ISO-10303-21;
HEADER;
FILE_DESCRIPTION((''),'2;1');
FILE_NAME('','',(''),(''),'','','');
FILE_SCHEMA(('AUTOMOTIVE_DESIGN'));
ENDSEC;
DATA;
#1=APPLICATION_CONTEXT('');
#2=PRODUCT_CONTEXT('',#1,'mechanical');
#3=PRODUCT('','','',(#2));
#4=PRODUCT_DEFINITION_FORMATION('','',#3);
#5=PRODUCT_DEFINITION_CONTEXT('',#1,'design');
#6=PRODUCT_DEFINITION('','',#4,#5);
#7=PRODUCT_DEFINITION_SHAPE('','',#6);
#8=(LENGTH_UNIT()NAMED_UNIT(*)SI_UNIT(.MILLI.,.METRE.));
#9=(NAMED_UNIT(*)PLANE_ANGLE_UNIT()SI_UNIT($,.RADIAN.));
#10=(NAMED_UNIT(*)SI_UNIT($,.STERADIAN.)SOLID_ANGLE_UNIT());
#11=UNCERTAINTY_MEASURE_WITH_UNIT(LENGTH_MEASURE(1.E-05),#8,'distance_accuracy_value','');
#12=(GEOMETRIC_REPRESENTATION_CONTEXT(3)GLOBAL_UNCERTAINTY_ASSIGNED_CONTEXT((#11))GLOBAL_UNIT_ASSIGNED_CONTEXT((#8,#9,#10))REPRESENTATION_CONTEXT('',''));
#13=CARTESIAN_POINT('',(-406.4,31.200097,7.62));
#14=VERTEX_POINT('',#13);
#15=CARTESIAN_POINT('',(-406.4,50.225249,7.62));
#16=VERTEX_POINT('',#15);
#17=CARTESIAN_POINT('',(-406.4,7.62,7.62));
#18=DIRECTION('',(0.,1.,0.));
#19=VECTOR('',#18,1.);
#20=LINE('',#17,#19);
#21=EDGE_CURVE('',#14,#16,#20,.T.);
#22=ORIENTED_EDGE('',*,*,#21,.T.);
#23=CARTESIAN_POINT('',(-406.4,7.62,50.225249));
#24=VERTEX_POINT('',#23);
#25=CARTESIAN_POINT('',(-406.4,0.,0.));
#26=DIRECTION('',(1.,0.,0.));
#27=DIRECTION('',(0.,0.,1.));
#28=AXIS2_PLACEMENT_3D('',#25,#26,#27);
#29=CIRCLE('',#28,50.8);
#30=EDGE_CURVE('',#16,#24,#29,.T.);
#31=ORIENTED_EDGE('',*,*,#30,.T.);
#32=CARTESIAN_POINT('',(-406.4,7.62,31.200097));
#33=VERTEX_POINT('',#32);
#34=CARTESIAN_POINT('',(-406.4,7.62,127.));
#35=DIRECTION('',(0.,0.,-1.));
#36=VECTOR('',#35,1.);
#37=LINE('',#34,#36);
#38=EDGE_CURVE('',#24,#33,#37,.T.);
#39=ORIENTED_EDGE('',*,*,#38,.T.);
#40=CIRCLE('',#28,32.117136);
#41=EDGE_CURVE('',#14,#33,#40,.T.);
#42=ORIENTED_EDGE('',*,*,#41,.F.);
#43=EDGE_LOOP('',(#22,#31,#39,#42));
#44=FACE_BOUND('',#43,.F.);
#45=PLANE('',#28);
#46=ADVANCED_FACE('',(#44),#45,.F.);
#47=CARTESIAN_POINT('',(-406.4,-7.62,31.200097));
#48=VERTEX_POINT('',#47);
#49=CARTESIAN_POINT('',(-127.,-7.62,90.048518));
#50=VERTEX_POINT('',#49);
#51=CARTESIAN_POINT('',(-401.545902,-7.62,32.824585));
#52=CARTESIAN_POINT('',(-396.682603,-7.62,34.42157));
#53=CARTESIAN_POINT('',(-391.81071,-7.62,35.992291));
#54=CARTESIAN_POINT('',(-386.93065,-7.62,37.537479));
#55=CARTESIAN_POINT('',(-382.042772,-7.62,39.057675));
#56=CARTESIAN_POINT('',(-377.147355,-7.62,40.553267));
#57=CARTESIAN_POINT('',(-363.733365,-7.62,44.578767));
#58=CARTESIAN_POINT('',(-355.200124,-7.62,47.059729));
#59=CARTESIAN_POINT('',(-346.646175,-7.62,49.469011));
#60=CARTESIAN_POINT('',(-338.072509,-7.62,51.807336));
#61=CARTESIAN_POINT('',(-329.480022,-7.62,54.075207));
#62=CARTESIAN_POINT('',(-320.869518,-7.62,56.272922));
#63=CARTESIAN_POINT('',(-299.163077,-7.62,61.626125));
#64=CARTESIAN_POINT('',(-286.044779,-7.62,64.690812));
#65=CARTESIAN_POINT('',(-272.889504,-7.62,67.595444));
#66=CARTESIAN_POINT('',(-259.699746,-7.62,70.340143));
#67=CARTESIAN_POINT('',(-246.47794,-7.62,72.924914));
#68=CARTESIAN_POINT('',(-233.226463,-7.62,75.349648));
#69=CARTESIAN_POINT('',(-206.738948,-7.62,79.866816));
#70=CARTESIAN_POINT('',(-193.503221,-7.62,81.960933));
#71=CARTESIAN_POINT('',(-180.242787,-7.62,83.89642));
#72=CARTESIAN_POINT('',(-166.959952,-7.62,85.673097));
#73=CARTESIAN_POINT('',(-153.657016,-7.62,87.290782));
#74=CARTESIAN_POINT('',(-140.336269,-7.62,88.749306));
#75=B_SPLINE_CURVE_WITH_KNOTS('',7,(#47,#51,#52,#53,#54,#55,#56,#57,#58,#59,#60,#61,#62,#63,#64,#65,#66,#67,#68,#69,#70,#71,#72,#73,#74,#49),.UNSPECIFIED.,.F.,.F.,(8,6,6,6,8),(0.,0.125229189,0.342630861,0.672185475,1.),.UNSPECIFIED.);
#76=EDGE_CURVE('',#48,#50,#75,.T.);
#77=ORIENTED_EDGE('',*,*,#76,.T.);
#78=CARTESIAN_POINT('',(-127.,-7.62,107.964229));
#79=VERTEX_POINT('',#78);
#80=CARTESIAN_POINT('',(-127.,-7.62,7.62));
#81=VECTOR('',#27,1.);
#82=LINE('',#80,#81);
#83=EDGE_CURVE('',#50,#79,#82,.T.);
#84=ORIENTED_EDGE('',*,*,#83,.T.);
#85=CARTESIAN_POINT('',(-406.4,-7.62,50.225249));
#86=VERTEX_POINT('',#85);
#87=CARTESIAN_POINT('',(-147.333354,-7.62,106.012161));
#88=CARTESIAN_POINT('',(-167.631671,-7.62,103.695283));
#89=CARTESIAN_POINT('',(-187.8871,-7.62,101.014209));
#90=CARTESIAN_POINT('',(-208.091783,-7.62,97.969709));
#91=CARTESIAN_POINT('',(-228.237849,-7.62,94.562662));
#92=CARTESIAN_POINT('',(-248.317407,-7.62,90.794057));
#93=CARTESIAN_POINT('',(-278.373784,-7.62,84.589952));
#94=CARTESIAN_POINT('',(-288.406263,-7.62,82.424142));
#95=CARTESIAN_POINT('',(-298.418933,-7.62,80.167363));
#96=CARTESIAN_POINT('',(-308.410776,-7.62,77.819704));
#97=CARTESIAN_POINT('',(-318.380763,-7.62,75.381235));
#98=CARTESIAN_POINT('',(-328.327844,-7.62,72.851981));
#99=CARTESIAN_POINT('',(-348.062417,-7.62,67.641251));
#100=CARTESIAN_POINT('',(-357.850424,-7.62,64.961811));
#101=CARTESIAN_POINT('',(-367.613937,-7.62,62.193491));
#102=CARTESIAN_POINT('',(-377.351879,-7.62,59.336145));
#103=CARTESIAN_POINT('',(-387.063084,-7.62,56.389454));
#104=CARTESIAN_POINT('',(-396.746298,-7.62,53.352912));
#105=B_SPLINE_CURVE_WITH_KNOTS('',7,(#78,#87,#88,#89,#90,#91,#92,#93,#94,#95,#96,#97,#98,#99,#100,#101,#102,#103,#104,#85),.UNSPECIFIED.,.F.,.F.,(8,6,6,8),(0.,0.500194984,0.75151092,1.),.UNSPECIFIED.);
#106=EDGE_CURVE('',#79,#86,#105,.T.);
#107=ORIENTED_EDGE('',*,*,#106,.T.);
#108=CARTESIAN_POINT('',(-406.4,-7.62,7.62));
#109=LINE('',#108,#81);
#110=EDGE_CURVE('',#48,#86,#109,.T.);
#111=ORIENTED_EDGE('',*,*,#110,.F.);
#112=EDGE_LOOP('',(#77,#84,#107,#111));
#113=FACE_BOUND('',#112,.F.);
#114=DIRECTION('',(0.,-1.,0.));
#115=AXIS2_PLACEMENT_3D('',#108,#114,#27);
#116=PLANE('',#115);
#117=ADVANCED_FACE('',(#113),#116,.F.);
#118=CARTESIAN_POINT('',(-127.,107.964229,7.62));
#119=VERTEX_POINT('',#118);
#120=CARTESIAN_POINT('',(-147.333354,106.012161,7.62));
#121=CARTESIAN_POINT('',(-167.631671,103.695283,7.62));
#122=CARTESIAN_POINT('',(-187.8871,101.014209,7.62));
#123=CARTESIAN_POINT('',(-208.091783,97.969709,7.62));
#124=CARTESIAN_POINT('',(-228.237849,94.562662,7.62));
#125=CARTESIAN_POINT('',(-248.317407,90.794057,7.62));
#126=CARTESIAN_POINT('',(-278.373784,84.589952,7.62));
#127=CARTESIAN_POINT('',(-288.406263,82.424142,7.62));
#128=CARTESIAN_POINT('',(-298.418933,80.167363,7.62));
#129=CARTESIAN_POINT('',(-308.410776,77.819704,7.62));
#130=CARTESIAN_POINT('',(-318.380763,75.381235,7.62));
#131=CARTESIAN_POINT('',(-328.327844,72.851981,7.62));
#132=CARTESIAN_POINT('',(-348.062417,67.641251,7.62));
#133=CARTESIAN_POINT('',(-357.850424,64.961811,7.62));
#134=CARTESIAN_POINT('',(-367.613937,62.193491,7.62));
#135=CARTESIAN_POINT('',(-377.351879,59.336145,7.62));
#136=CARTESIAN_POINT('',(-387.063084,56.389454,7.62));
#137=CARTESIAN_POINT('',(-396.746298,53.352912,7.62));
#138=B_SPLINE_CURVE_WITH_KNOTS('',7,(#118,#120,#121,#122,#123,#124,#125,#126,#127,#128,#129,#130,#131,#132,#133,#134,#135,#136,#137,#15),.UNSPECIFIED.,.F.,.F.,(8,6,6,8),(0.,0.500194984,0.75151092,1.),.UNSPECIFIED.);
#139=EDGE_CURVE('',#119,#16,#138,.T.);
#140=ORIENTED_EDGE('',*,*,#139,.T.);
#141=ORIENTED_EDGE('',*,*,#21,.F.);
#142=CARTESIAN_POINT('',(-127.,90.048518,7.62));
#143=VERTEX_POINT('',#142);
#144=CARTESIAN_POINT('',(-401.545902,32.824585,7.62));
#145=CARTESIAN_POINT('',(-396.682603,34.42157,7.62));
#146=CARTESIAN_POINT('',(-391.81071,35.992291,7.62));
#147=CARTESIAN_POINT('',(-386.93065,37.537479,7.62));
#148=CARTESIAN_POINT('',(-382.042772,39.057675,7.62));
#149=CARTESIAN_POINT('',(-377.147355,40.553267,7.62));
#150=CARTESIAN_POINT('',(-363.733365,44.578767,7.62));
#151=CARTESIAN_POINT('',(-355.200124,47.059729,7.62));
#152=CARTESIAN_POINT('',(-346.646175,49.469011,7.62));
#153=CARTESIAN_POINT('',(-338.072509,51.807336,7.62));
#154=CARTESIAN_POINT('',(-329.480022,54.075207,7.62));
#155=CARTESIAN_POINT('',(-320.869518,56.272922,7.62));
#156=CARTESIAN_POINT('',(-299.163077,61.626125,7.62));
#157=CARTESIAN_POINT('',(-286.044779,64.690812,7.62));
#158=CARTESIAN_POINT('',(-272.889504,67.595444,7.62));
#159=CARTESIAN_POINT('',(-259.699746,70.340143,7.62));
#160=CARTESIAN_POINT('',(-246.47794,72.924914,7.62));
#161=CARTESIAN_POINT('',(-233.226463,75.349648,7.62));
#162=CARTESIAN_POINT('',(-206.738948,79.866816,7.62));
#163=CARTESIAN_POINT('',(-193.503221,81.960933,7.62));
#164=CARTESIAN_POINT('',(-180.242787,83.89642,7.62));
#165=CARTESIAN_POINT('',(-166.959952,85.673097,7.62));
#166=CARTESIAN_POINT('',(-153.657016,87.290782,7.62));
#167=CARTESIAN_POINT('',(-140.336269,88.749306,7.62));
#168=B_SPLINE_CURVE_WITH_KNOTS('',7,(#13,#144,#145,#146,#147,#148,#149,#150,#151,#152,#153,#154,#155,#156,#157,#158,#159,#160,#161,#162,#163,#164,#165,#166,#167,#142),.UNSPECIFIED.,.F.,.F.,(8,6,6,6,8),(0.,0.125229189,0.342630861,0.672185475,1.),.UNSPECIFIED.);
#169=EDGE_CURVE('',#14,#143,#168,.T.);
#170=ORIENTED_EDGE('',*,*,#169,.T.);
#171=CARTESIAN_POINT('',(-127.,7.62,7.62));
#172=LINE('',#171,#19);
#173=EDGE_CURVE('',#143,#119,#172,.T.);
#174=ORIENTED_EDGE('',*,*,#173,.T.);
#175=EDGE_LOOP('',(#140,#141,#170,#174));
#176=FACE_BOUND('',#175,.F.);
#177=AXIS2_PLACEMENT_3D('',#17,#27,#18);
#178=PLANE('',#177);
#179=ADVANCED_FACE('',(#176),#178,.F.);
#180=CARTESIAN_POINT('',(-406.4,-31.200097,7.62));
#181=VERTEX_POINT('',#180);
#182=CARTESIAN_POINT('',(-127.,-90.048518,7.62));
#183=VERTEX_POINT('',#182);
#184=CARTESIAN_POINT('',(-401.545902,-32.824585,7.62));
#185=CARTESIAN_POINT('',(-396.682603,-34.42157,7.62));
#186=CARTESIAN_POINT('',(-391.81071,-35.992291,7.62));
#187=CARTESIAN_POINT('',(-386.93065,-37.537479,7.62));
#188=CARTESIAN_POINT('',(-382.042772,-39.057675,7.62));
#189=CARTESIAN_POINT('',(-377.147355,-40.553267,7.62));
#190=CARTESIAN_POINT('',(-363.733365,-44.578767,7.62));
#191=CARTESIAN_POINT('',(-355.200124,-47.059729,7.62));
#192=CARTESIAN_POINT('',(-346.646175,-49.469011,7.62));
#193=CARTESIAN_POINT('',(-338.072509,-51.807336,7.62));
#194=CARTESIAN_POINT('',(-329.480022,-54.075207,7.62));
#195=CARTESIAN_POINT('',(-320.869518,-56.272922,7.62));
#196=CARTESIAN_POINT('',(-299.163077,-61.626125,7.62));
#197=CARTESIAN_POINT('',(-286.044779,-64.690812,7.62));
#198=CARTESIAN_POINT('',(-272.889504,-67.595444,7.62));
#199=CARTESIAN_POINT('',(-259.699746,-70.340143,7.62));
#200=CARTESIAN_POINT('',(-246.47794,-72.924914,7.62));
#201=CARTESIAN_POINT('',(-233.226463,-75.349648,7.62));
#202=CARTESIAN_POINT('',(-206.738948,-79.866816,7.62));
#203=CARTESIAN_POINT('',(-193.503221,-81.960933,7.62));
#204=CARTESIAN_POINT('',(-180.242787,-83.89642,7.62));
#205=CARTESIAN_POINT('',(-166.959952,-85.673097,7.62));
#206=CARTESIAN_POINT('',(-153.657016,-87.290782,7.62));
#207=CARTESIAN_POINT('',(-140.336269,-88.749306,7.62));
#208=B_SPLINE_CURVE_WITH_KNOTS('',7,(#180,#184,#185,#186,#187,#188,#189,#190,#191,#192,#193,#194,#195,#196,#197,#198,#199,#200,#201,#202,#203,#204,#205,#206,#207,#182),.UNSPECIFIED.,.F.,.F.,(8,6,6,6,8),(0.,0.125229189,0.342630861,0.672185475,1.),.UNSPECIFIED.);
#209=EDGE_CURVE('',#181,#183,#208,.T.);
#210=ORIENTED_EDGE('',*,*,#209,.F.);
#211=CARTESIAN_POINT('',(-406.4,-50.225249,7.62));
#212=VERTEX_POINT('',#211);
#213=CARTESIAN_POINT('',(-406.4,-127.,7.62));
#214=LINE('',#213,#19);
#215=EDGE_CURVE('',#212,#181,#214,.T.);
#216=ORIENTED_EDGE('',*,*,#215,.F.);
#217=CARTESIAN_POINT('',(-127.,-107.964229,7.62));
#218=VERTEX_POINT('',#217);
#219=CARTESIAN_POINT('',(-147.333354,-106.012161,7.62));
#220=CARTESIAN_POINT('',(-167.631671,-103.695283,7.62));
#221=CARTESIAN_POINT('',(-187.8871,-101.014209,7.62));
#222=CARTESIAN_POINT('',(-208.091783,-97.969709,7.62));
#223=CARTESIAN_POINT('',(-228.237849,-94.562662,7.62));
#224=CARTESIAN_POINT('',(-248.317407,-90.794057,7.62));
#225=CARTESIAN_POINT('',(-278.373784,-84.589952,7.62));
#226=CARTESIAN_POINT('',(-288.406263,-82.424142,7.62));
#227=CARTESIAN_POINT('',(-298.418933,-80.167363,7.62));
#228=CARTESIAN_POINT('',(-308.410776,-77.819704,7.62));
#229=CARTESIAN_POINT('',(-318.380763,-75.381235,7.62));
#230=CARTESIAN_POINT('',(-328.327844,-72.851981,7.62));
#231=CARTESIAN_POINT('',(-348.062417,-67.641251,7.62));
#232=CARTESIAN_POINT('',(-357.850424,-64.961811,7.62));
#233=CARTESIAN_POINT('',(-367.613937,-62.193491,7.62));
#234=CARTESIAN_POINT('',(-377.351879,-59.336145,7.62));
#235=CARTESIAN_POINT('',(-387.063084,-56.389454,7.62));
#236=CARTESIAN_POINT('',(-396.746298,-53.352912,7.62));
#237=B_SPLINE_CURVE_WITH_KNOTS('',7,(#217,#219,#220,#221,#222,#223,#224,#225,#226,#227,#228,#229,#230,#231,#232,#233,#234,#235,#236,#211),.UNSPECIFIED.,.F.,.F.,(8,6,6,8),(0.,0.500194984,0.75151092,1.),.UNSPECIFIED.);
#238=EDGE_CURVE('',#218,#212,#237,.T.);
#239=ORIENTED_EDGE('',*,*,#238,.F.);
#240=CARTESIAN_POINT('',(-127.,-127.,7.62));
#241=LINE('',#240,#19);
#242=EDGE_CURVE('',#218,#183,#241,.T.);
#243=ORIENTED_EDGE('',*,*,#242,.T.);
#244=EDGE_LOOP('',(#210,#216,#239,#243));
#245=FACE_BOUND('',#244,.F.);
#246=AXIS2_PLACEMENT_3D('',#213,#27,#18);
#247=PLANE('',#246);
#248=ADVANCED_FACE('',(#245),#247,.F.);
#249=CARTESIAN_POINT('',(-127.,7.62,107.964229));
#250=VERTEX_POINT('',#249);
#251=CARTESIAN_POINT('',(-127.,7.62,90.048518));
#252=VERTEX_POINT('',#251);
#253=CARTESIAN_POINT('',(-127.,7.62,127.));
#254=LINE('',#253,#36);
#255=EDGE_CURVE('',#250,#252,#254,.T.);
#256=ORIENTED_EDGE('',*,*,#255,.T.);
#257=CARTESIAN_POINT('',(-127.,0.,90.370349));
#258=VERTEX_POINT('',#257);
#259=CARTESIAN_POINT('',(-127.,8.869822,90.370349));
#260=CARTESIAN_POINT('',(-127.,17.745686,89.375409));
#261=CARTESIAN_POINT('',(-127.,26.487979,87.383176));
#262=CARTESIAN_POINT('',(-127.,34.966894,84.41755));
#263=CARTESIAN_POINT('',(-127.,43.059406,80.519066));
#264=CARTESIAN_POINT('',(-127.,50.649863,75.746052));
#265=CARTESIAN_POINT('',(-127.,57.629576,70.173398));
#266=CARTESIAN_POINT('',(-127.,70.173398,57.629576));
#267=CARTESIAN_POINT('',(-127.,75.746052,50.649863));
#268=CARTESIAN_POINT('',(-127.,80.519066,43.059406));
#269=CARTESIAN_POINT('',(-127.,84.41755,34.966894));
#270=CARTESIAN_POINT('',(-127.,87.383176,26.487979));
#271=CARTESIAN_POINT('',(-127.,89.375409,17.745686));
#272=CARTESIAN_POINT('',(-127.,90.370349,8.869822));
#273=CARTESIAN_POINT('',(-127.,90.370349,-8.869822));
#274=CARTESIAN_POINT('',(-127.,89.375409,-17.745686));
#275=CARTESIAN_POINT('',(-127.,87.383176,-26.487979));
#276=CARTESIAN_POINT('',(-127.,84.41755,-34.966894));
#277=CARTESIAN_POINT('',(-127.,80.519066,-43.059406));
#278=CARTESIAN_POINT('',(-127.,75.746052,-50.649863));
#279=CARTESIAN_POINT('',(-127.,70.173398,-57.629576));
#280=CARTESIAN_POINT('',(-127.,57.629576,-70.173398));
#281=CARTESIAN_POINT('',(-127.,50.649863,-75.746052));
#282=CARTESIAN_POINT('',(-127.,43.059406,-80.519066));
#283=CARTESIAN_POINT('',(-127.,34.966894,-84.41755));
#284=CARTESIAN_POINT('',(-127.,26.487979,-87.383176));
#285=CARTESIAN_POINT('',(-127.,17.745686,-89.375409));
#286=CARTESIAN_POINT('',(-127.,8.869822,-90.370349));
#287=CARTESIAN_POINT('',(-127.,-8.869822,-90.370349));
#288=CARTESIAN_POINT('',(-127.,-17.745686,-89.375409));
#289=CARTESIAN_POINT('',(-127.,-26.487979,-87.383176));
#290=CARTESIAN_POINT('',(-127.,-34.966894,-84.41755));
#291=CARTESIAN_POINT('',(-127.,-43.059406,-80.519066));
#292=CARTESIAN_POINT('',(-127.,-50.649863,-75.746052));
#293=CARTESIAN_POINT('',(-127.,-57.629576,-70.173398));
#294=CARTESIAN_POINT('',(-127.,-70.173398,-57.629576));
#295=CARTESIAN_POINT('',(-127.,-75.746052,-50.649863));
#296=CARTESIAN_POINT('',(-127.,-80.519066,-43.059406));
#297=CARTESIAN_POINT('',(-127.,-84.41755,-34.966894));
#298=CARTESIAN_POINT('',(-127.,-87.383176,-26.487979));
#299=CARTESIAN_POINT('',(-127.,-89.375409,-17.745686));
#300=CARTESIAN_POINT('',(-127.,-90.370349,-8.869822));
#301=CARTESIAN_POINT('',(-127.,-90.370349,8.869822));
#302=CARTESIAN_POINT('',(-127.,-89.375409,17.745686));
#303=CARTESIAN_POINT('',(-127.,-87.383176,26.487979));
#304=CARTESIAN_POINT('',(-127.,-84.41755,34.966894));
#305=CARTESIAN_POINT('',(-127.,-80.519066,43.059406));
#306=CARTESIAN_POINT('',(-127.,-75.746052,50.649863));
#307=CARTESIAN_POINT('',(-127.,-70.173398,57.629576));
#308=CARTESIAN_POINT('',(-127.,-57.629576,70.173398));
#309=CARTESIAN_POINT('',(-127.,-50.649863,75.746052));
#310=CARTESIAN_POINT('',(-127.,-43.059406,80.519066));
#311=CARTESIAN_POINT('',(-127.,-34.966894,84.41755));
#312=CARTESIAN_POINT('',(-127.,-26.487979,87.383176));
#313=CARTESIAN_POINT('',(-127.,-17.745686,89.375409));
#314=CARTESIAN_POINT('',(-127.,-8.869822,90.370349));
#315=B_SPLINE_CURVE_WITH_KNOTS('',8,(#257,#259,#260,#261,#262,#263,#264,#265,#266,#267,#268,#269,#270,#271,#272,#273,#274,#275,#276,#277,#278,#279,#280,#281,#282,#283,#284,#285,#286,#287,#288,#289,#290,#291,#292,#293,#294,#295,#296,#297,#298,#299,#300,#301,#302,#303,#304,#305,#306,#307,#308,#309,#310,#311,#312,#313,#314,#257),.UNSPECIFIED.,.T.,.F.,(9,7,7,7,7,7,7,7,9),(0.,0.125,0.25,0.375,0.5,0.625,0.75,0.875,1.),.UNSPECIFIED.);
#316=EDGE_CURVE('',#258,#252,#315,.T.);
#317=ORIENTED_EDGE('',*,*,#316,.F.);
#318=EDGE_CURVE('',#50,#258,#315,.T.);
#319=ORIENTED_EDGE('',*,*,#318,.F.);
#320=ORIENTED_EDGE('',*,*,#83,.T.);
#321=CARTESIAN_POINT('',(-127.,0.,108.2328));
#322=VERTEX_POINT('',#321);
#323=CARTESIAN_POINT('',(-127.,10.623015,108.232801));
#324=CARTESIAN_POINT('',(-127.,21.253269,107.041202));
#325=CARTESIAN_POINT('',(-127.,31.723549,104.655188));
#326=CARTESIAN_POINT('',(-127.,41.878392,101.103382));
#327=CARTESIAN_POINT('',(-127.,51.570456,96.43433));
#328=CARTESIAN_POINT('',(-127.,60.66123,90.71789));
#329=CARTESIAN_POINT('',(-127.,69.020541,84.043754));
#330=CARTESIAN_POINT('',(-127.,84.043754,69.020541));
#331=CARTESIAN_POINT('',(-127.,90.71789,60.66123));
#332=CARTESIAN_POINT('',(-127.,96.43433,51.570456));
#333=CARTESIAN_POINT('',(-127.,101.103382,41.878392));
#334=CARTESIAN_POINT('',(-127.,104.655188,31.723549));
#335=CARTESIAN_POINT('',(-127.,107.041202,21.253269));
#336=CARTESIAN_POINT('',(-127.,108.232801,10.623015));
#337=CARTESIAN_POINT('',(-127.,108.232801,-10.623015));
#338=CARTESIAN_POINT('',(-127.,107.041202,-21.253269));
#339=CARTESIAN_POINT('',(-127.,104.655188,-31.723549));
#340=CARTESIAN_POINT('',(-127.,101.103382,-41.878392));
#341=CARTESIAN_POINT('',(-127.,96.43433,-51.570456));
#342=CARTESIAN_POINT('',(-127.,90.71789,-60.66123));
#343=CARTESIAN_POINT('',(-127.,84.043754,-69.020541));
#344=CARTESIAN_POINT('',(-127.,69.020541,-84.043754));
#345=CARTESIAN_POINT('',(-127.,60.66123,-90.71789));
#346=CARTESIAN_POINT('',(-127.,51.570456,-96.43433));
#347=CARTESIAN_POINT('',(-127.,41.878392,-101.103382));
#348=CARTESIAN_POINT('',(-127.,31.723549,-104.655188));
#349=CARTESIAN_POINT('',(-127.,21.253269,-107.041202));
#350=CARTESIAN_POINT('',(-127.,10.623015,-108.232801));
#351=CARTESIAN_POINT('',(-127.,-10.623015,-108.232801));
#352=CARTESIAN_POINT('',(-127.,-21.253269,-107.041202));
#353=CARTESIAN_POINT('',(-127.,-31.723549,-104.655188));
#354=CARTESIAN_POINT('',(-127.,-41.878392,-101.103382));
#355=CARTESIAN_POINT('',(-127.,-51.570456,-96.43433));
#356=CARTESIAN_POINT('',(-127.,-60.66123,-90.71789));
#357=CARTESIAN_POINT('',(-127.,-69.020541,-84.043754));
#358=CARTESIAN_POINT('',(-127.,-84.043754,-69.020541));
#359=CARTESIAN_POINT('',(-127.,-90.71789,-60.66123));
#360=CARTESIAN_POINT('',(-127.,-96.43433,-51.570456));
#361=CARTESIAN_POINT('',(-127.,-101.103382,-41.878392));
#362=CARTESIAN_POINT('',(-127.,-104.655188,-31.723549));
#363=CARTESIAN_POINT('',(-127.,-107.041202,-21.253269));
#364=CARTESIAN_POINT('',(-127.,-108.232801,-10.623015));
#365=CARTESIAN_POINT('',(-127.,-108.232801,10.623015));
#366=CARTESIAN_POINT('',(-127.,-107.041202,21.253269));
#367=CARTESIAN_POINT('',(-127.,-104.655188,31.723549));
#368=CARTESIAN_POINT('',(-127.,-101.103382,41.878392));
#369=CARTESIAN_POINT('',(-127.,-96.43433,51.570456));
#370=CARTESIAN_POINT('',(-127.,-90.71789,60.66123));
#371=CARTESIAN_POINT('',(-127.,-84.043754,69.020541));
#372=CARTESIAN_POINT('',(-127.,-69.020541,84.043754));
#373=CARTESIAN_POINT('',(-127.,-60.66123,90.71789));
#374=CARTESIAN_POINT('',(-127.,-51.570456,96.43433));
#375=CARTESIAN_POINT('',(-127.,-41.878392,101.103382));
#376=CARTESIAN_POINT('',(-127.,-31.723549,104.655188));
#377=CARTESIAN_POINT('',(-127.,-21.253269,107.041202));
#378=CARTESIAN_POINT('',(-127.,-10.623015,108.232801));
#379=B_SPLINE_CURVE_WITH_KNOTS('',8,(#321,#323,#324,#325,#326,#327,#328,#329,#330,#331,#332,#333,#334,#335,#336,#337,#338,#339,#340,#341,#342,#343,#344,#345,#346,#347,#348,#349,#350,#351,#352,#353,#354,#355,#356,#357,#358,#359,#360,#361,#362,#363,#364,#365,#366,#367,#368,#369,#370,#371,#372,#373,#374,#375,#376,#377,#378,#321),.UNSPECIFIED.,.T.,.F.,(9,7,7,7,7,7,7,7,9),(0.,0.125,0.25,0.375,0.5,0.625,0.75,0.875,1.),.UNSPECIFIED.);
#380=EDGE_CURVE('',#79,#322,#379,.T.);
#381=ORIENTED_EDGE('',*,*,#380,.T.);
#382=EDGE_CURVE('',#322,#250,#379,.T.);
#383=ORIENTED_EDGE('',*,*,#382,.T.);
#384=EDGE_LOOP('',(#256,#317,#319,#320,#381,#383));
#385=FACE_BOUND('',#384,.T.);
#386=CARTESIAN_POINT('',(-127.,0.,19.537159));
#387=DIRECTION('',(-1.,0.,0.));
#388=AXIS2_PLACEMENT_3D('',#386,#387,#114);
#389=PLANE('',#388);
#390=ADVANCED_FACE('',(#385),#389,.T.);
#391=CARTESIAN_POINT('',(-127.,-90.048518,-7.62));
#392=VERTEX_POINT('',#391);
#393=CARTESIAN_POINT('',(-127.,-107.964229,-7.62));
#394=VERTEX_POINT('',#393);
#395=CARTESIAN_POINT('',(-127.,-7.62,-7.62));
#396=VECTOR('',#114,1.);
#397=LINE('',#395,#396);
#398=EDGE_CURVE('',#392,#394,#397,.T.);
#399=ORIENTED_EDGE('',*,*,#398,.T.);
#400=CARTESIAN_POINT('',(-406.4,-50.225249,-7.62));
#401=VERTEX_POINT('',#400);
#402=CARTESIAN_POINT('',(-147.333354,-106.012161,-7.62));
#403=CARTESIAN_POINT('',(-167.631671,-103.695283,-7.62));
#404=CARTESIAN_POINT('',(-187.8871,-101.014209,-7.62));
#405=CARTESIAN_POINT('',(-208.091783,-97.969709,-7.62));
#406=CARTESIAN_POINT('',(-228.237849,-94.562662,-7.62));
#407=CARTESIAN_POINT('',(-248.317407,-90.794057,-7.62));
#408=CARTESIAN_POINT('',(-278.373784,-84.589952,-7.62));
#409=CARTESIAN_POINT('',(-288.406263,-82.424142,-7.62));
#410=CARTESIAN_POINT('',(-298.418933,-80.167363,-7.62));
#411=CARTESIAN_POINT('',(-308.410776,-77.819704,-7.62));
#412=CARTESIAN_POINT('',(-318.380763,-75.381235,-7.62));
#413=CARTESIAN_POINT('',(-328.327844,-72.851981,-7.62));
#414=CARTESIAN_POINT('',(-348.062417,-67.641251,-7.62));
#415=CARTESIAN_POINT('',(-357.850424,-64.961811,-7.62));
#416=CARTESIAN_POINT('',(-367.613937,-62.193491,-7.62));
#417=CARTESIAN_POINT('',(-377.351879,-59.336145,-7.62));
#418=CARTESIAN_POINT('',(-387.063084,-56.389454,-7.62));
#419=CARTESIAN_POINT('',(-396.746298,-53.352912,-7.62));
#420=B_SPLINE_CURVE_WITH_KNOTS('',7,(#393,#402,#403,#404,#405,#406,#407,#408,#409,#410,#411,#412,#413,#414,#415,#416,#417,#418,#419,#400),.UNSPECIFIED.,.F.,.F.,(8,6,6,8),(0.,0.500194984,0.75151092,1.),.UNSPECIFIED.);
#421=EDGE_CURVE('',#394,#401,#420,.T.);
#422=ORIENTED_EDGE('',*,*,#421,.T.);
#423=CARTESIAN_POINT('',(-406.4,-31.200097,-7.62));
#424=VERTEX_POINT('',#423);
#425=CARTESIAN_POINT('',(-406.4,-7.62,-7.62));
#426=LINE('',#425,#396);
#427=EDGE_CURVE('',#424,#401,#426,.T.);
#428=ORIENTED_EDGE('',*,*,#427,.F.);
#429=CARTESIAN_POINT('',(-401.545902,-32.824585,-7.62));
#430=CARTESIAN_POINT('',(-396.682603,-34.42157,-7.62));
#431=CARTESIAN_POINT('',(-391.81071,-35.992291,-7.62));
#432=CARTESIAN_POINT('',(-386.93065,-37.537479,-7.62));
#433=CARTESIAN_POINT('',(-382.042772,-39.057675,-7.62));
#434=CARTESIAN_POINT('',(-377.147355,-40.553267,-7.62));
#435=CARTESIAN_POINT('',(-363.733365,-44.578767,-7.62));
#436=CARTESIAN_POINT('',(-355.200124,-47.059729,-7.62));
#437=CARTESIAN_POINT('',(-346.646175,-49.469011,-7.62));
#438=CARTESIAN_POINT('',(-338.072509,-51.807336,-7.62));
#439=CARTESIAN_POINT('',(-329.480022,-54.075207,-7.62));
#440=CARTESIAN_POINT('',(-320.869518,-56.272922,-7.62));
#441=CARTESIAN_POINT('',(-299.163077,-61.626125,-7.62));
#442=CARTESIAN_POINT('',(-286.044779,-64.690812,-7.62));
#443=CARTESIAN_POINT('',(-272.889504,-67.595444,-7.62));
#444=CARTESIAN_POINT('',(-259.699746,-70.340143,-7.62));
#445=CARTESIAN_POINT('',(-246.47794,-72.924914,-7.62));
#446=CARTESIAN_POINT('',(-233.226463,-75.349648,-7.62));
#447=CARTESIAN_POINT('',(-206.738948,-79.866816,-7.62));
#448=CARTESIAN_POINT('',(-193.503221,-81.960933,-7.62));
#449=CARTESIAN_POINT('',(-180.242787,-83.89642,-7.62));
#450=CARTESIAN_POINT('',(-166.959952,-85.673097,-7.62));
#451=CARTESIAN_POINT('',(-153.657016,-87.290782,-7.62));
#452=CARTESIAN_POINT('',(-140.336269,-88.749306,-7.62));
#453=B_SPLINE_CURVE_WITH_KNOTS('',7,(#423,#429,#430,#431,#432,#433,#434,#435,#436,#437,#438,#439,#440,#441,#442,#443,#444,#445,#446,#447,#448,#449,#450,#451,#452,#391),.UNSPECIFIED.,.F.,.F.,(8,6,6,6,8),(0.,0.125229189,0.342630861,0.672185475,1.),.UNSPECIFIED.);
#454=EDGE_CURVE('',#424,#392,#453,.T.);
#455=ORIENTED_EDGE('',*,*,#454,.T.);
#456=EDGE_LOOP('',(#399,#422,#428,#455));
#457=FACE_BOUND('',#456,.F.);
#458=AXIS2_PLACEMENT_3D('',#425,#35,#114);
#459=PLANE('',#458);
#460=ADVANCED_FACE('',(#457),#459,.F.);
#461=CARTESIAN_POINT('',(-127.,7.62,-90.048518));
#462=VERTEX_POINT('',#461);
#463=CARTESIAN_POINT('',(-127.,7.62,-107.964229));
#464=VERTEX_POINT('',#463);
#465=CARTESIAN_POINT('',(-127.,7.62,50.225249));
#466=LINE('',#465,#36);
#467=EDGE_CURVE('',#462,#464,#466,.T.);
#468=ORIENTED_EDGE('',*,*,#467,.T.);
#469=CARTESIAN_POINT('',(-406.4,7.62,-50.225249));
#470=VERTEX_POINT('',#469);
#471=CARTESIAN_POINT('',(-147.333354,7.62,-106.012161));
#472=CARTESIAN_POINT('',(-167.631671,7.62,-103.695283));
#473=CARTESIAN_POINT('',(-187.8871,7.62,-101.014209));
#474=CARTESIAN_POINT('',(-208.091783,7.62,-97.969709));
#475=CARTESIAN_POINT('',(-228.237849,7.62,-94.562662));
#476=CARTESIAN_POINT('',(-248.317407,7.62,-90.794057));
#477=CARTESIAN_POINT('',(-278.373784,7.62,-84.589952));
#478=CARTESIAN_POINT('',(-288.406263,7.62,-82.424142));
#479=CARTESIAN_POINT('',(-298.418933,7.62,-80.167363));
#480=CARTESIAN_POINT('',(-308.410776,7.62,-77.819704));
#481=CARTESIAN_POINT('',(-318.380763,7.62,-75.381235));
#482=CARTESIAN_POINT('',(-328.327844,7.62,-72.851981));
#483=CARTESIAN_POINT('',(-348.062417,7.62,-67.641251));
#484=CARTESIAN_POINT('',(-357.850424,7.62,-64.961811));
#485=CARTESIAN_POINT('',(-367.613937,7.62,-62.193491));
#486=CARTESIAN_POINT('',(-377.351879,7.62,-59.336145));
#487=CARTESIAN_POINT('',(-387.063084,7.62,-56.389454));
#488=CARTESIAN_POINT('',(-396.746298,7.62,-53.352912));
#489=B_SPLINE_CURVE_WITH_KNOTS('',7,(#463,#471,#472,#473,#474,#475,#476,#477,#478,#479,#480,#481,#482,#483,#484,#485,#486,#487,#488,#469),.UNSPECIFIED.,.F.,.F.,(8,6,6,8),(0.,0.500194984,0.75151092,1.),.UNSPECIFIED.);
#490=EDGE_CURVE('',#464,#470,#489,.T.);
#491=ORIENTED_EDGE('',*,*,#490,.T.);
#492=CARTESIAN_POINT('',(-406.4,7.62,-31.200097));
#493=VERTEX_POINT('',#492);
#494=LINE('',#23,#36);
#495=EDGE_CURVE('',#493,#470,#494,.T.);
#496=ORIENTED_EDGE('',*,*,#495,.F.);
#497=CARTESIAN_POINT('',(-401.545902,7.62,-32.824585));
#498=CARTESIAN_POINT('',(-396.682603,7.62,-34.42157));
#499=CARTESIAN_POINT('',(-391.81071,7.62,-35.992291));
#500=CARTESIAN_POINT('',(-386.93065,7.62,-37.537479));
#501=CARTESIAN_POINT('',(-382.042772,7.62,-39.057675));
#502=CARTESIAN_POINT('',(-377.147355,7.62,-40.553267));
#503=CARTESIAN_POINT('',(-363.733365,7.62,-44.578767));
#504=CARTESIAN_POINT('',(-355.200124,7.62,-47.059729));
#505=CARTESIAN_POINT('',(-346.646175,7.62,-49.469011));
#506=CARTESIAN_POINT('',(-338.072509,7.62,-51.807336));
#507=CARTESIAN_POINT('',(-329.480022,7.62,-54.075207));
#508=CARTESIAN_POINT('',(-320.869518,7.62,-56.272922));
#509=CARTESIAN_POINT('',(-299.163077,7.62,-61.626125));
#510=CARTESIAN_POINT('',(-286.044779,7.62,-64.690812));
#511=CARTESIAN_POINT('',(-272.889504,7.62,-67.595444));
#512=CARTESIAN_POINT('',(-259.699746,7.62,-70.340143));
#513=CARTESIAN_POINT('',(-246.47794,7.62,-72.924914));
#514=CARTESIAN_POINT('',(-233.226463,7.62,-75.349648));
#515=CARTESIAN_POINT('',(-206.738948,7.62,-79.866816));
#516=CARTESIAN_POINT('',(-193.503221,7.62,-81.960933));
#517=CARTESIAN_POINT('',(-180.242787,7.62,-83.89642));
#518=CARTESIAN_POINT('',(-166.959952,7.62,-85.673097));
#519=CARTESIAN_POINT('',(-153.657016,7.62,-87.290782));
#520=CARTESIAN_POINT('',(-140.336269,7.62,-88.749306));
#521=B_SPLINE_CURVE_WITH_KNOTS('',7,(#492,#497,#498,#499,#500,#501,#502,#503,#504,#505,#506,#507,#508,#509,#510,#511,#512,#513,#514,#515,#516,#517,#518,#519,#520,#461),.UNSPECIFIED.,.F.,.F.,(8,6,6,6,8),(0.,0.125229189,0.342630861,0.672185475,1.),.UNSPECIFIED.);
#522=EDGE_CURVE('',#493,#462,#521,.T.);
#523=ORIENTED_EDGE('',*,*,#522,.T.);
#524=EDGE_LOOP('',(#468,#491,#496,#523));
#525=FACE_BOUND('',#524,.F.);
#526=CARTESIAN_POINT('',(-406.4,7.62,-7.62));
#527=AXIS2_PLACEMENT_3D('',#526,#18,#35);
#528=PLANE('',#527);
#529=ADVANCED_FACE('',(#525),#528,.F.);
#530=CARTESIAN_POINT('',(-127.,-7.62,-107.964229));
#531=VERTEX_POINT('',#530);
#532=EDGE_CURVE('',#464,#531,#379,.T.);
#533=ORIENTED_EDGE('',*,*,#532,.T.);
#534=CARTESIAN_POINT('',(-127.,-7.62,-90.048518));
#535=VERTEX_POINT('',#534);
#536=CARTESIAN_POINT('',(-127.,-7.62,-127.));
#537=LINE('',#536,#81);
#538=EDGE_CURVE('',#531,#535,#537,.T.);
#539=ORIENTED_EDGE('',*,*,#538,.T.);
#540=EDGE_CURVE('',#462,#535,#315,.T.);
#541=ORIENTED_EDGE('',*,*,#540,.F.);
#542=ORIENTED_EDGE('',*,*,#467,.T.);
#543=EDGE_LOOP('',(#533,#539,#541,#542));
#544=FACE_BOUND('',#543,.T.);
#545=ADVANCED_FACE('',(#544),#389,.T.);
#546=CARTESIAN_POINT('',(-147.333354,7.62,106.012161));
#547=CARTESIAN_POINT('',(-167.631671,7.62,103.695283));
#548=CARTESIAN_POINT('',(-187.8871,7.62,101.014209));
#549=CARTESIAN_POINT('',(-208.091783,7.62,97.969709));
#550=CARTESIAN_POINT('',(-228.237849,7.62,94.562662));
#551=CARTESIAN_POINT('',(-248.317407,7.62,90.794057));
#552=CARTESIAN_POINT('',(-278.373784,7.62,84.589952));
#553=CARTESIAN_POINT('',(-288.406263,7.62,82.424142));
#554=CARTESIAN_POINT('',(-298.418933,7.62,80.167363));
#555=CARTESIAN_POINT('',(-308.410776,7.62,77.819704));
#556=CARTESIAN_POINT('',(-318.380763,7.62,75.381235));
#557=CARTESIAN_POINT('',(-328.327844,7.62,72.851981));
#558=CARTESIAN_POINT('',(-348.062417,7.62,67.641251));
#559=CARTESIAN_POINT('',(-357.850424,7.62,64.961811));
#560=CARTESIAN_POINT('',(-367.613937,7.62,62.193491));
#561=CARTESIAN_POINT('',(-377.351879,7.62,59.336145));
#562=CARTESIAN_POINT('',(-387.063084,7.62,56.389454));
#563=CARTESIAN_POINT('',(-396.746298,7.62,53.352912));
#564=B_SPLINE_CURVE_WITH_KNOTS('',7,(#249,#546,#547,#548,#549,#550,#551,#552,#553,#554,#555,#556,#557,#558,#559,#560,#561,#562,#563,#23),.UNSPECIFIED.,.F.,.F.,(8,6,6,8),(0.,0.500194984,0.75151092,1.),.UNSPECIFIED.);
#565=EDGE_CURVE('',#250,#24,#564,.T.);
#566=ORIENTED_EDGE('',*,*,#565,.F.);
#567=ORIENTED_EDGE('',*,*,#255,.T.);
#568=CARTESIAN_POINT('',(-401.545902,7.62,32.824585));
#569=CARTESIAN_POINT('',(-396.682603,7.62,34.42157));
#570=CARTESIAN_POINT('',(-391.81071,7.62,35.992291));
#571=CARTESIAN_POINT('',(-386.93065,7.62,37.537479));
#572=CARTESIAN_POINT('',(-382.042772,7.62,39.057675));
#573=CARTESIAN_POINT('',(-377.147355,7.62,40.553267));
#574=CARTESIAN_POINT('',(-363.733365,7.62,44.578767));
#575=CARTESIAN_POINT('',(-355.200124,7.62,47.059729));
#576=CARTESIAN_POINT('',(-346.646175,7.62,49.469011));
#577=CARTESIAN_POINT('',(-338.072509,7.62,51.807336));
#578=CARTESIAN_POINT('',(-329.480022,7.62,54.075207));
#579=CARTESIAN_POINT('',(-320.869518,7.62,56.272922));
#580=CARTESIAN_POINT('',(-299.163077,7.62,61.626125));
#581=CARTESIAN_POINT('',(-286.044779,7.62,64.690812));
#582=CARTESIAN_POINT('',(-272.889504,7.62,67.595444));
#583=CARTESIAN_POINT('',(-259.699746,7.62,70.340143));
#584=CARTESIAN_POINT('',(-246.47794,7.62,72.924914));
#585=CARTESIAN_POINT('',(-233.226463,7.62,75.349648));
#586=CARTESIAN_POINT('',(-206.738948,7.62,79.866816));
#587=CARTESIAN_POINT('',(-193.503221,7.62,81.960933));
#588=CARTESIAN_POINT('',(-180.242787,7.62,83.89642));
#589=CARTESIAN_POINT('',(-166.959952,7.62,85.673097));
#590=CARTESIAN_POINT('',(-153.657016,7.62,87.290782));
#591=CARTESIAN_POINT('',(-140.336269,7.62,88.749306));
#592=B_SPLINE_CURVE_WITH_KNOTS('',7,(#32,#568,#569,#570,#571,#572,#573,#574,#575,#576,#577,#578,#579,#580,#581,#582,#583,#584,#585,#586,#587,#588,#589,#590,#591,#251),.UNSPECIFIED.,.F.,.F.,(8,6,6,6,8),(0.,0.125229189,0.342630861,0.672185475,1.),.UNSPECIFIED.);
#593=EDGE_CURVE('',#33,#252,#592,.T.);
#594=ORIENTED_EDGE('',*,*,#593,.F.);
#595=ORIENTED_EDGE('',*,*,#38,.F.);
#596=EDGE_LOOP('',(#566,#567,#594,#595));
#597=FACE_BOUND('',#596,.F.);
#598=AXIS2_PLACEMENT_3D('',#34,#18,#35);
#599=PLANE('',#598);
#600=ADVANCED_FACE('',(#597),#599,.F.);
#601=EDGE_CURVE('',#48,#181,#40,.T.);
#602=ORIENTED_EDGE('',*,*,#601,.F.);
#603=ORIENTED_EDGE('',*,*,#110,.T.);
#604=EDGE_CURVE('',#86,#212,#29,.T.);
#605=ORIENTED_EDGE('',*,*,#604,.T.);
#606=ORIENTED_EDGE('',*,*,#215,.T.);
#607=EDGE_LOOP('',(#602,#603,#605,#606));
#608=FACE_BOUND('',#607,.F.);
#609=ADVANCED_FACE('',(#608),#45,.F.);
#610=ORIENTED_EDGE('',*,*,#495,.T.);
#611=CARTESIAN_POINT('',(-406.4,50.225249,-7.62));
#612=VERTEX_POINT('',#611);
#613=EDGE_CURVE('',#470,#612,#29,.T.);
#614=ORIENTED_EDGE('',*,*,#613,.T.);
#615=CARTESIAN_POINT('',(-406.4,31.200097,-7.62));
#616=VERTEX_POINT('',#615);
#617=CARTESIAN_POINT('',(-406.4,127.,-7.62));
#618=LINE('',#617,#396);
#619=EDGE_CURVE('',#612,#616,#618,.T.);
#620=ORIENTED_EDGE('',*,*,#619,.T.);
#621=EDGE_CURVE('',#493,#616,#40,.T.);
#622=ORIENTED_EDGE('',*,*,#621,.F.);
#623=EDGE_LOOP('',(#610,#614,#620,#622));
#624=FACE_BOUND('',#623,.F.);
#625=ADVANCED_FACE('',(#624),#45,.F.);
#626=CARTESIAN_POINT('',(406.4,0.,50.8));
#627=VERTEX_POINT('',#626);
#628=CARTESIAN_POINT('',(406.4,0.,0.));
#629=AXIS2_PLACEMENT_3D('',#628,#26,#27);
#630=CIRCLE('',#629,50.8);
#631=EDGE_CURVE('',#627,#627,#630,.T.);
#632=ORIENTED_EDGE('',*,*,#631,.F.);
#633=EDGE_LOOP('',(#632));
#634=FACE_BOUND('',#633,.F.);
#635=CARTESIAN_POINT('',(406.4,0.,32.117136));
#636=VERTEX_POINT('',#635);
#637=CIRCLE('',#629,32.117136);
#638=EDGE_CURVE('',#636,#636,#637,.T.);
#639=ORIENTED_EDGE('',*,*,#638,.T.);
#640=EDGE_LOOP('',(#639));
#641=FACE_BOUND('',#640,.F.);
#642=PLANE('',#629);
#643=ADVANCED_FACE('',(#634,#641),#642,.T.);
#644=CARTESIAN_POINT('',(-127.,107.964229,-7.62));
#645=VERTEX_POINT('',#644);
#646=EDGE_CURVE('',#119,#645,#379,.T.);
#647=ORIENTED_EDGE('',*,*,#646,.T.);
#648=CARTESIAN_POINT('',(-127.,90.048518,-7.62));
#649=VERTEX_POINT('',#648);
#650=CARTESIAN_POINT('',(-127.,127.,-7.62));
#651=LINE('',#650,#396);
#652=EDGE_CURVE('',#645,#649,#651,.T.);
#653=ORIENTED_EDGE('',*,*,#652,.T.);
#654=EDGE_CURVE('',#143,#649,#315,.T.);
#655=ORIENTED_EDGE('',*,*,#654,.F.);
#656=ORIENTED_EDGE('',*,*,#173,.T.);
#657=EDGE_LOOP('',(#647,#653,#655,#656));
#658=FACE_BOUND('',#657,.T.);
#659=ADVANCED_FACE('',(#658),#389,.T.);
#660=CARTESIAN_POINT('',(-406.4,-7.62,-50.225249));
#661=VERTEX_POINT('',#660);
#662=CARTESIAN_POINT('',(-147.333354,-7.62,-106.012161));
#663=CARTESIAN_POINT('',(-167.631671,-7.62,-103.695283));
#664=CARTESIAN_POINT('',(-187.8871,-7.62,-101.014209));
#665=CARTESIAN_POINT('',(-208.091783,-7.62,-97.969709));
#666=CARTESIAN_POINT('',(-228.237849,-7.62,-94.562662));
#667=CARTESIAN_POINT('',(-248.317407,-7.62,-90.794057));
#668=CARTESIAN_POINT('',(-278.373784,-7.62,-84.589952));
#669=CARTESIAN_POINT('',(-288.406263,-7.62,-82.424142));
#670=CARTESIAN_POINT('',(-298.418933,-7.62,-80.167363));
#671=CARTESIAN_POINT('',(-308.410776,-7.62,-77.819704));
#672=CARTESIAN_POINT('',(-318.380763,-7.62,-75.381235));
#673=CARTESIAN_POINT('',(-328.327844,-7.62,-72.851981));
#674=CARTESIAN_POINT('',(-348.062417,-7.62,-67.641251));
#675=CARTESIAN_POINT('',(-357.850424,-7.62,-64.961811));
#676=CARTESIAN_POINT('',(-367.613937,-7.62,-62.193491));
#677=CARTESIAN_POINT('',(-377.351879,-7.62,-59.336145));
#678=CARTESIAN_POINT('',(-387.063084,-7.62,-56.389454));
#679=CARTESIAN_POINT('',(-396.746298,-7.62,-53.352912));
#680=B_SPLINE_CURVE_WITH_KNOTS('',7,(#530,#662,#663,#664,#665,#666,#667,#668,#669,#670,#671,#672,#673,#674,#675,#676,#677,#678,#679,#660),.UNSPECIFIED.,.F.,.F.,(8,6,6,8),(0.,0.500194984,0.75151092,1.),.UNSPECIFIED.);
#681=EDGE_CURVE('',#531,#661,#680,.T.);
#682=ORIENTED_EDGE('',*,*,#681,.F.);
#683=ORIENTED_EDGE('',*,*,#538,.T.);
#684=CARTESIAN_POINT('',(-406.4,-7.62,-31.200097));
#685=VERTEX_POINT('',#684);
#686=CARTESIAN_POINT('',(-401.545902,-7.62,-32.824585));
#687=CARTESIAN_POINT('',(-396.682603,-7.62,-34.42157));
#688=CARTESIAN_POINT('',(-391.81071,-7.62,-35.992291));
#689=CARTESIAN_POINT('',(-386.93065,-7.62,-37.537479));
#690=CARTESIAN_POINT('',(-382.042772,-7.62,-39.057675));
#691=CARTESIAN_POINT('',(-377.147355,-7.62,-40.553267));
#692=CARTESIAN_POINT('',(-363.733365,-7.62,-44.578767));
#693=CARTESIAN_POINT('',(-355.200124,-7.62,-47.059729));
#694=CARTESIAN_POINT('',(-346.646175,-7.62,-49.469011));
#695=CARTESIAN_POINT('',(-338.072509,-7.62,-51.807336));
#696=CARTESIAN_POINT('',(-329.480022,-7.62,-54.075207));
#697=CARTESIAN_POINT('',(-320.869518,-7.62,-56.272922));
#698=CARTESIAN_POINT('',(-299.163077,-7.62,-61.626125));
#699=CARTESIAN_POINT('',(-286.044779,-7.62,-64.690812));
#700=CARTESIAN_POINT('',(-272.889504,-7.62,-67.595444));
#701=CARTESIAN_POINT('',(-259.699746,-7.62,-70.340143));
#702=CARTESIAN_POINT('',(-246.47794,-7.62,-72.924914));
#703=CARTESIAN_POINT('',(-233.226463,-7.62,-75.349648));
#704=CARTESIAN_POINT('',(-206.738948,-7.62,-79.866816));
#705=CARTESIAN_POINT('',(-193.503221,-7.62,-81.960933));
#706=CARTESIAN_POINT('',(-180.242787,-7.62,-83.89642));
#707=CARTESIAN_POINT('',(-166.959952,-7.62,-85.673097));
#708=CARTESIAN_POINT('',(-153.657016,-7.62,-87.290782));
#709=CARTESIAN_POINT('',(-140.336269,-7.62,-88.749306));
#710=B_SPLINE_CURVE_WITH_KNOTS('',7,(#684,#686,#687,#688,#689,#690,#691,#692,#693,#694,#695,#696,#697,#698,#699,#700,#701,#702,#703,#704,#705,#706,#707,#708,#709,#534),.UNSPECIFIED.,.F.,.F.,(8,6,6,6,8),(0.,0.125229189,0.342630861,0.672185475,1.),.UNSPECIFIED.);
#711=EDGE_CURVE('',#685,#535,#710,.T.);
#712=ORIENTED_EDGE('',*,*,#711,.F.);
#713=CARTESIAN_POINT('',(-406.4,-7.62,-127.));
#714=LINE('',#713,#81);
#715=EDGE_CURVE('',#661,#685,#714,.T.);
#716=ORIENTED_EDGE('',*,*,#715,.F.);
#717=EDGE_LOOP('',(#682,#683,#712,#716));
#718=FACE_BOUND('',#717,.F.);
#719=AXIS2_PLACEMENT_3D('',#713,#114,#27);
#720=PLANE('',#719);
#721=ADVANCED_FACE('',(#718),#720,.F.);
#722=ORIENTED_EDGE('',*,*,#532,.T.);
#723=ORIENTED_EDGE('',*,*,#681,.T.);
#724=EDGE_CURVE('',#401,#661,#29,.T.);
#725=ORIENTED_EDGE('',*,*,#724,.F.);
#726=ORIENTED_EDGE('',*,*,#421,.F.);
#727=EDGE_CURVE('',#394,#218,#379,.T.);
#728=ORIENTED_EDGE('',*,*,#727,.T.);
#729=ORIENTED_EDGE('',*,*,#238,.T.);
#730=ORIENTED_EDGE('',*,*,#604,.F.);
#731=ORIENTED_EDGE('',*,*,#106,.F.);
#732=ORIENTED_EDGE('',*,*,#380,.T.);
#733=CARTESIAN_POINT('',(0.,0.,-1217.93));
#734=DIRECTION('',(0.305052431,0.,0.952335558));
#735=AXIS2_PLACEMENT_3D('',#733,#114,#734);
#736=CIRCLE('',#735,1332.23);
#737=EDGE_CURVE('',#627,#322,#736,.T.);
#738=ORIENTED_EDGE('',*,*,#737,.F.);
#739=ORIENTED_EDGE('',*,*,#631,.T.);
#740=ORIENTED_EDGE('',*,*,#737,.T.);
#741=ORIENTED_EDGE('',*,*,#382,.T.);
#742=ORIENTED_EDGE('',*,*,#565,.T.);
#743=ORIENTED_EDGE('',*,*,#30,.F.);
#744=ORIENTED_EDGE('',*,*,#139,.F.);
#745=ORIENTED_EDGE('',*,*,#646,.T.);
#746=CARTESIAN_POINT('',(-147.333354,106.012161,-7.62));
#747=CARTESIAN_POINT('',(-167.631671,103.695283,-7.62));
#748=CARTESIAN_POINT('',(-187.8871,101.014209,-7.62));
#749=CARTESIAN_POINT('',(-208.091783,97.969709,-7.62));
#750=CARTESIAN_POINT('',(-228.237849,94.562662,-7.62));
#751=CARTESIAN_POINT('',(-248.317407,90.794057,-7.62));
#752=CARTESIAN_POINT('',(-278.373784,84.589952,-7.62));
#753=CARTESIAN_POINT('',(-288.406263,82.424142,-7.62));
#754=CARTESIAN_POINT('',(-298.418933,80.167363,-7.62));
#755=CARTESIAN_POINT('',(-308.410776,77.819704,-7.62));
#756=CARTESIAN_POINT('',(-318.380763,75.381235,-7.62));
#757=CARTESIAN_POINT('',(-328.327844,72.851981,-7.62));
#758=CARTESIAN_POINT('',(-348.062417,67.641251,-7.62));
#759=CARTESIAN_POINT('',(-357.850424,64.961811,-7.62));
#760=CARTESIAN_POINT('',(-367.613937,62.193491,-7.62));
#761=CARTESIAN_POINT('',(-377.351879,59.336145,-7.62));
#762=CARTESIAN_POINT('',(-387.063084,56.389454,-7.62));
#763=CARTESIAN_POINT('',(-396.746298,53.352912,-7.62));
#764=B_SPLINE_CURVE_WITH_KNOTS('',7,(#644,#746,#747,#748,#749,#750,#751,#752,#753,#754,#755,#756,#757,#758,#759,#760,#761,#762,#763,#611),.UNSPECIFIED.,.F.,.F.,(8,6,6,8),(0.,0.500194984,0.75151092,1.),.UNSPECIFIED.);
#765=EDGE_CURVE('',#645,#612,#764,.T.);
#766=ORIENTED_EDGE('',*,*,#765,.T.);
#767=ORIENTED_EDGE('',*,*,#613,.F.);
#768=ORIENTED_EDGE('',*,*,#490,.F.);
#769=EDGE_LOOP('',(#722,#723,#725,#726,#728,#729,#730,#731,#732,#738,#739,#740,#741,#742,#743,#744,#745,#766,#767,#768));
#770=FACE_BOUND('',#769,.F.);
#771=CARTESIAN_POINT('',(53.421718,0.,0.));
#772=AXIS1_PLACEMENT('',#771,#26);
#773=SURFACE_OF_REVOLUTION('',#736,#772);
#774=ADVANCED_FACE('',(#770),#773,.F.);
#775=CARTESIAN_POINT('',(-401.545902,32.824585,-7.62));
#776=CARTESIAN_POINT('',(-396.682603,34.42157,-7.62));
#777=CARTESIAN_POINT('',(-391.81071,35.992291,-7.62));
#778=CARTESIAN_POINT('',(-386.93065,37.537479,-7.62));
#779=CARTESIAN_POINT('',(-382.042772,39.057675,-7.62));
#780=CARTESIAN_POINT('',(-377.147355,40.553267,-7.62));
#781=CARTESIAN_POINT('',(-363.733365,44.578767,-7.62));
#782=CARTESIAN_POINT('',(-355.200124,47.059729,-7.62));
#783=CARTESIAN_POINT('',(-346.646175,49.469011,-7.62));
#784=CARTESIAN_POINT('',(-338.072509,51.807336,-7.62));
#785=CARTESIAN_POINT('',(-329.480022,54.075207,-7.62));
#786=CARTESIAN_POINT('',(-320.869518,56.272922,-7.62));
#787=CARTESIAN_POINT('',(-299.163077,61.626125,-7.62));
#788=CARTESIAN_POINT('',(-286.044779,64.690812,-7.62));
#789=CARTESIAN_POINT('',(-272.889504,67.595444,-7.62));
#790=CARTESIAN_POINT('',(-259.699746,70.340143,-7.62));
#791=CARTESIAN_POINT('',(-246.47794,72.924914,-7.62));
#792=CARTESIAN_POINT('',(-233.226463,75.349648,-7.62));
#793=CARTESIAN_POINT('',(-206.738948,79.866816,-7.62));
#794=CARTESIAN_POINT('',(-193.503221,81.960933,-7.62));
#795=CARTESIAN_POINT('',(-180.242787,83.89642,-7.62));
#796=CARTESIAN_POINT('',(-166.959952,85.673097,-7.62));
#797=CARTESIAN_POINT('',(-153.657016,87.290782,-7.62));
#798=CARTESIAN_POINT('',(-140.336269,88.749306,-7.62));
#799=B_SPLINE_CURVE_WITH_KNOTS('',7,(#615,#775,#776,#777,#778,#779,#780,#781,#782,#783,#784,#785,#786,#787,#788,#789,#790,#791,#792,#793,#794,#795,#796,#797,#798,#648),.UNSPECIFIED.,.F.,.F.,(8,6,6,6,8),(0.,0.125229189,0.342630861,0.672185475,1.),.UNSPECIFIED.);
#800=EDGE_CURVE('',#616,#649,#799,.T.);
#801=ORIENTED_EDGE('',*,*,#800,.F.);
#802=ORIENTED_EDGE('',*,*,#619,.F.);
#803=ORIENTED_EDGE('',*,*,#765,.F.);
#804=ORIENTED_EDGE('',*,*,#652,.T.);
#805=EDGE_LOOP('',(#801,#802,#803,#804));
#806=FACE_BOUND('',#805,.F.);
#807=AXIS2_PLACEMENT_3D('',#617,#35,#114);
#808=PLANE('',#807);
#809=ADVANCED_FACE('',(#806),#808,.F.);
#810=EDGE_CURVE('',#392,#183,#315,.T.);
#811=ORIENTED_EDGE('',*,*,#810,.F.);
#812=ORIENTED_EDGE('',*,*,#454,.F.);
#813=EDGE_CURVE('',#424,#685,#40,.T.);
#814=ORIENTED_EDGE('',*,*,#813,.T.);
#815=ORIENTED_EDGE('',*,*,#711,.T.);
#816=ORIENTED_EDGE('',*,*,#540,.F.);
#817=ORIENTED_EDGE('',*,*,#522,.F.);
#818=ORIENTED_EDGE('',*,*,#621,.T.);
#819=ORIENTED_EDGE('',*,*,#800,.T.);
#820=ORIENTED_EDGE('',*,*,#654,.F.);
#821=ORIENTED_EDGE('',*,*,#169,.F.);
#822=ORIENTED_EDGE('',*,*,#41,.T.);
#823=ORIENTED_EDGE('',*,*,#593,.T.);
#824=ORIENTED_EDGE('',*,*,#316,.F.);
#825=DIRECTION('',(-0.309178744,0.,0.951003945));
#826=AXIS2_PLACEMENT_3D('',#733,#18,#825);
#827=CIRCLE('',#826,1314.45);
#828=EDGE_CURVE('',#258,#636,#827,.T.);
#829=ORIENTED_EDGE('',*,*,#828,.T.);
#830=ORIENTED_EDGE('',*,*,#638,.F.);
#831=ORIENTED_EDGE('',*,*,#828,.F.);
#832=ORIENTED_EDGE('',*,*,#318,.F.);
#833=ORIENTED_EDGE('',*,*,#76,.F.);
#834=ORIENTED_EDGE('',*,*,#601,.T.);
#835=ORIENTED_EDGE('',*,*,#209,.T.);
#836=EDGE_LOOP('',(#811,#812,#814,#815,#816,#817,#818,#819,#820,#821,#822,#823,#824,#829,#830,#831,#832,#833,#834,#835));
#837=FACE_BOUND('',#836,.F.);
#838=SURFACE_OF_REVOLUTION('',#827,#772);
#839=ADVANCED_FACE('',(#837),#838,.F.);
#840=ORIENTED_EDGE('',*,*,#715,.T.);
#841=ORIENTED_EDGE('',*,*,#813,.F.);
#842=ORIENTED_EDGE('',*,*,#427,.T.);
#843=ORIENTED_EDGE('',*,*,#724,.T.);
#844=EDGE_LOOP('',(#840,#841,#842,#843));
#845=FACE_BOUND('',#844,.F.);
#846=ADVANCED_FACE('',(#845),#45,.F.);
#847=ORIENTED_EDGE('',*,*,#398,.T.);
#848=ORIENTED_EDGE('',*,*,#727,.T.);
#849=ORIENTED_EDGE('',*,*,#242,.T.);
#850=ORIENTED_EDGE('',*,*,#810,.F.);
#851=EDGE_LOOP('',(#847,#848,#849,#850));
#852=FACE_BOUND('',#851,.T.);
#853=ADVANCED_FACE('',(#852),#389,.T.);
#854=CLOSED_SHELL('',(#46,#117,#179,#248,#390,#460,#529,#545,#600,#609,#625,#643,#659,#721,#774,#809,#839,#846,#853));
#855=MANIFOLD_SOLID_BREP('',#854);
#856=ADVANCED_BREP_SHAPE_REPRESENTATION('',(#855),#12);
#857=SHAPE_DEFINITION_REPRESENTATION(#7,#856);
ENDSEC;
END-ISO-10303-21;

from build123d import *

# Parameters (mm, degrees)
F2_W     = 15.24
F2_H     = 15.24
F3_DEPTH = 279.4


with BuildPart() as f1:
    # F0 (on Front) → F1 (revolve)
    with BuildSketch(Plane.XZ):
        with BuildLine():
            ThreePointArc((406.4, 50.8), (205.6655112069, 98.3292717242), (0, 114.3))
            Line((0, 114.3), (0, 96.52))
            ThreePointArc((0, 96.52), (205.7356853326, 80.3194484038), (406.4, 32.1171361113))
            Line((406.4, 32.1171361113), (406.4, 50.8))
        make_face()
        with BuildLine():
            ThreePointArc((0, 114.3), (-205.6655112069, 98.3292717242), (-406.4, 50.8))
            Line((-406.4, 50.8), (-406.4, 32.1171361113))
            ThreePointArc((-406.4, 32.1171361113), (-205.7356853326, 80.3194484038), (0, 96.52))
            Line((0, 96.52), (0, 114.3))
        make_face()
    revolve(axis=Axis((53.4217184067, 0, 0), (1, 0, 0)))

    # F2 (on face) → F3 (cut)
    with BuildSketch(Plane(origin=(-406.4, 0, 0), x_dir=(0, -1, 0), z_dir=(-1, 0, 0))):
        with BuildLine():
            Line((-7.62, 31.2000966664), (-7.62, 7.62))
            Line((-7.62, 7.62), (7.62, 7.62))
            Line((7.62, 7.62), (7.62, 31.2000966664))
            ThreePointArc((7.62, 31.2000966664), (0, 32.1171361113), (-7.62, 31.2000966664))
        make_face()
        with BuildLine():
            Line((-31.2000966664, 7.62), (-50.2252486305, 7.62))
            ThreePointArc((-50.2252486305, 7.62), (-50.8, 0), (-50.2252486305, -7.62))
            Line((-50.2252486305, -7.62), (-31.2000966664, -7.62))
            ThreePointArc((-31.2000966664, -7.62), (-32.1171361113, 0), (-31.2000966664, 7.62))
        make_face()
        with BuildLine():
            ThreePointArc((7.62, 50.2252486305), (0, 50.8), (-7.62, 50.2252486305))
            Line((-7.62, 50.2252486305), (-7.62, 31.2000966664))
            ThreePointArc((-7.62, 31.2000966664), (0, 32.1171361113), (7.62, 31.2000966664))
            Line((7.62, 31.2000966664), (7.62, 50.2252486305))
        make_face()
        with BuildLine():
            ThreePointArc((7.62, -50.2252486305), (0, -50.8), (-7.62, -50.2252486305))
            Line((-7.62, -50.2252486305), (-7.62, -127))
            Line((-7.62, -127), (7.62, -127))
            Line((7.62, -127), (7.62, -50.2252486305))
        make_face()
        with BuildLine():
            Line((7.62, -7.62), (-7.62, -7.62))
            Line((-7.62, -7.62), (-7.62, -31.2000966664))
            ThreePointArc((-7.62, -31.2000966664), (0, -32.1171361113), (7.62, -31.2000966664))
            Line((7.62, -31.2000966664), (7.62, -7.62))
        make_face()
        with BuildLine():
            Line((-7.62, -31.2000966664), (-7.62, -50.2252486305))
            ThreePointArc((-7.62, -50.2252486305), (0, -50.8), (7.62, -50.2252486305))
            Line((7.62, -50.2252486305), (7.62, -31.2000966664))
            ThreePointArc((7.62, -31.2000966664), (0, -32.1171361113), (-7.62, -31.2000966664))
        make_face()
        Rectangle(F2_W, F2_H)
        with BuildLine():
            Line((127, 7.62), (50.2252486305, 7.62))
            ThreePointArc((50.2252486305, 7.62), (50.6561083702, 3.8208225272), (50.8, 0))
            ThreePointArc((50.8, 0), (50.6561083702, -3.8208225272), (50.2252486305, -7.62))
            Line((50.2252486305, -7.62), (127, -7.62))
            Line((127, -7.62), (127, 7.62))
        make_face()
        with BuildLine():
            Line((-7.62, 7.62), (-31.2000966664, 7.62))
            ThreePointArc((-31.2000966664, 7.62), (-32.1171361113, 0), (-31.2000966664, -7.62))
            Line((-31.2000966664, -7.62), (-7.62, -7.62))
            Line((-7.62, -7.62), (-7.62, 7.62))
        make_face()
        with BuildLine():
            ThreePointArc((50.8, 0), (50.6561083702, 3.8208225272), (50.2252486305, 7.62))
            Line((50.2252486305, 7.62), (31.2000966664, 7.62))
            ThreePointArc((31.2000966664, 7.62), (31.8870521004, 3.8374914118), (32.1171361113, 0))
            ThreePointArc((32.1171361113, 0), (31.8870521004, -3.8374914118), (31.2000966664, -7.62))
            Line((31.2000966664, -7.62), (50.2252486305, -7.62))
            ThreePointArc((50.2252486305, -7.62), (50.6561083702, -3.8208225272), (50.8, 0))
        make_face()
        with BuildLine():
            Line((31.2000966664, 7.62), (7.62, 7.62))
            Line((7.62, 7.62), (7.62, -7.62))
            Line((7.62, -7.62), (31.2000966664, -7.62))
            ThreePointArc((31.2000966664, -7.62), (31.8870521004, -3.8374914118), (32.1171361113, 0))
            ThreePointArc((32.1171361113, 0), (31.8870521004, 3.8374914118), (31.2000966664, 7.62))
        make_face()
        with BuildLine():
            Line((-50.2252486305, 7.62), (-127, 7.62))
            Line((-127, 7.62), (-127, -7.62))
            Line((-127, -7.62), (-50.2252486305, -7.62))
            ThreePointArc((-50.2252486305, -7.62), (-50.8, 0), (-50.2252486305, 7.62))
        make_face()
        with BuildLine():
            Line((-7.62, 127), (-7.62, 50.2252486305))
            ThreePointArc((-7.62, 50.2252486305), (0, 50.8), (7.62, 50.2252486305))
            Line((7.62, 50.2252486305), (7.62, 127))
            Line((7.62, 127), (-7.62, 127))
        make_face()
    extrude(amount=-F3_DEPTH, mode=Mode.SUBTRACT)


solid = f1.part
